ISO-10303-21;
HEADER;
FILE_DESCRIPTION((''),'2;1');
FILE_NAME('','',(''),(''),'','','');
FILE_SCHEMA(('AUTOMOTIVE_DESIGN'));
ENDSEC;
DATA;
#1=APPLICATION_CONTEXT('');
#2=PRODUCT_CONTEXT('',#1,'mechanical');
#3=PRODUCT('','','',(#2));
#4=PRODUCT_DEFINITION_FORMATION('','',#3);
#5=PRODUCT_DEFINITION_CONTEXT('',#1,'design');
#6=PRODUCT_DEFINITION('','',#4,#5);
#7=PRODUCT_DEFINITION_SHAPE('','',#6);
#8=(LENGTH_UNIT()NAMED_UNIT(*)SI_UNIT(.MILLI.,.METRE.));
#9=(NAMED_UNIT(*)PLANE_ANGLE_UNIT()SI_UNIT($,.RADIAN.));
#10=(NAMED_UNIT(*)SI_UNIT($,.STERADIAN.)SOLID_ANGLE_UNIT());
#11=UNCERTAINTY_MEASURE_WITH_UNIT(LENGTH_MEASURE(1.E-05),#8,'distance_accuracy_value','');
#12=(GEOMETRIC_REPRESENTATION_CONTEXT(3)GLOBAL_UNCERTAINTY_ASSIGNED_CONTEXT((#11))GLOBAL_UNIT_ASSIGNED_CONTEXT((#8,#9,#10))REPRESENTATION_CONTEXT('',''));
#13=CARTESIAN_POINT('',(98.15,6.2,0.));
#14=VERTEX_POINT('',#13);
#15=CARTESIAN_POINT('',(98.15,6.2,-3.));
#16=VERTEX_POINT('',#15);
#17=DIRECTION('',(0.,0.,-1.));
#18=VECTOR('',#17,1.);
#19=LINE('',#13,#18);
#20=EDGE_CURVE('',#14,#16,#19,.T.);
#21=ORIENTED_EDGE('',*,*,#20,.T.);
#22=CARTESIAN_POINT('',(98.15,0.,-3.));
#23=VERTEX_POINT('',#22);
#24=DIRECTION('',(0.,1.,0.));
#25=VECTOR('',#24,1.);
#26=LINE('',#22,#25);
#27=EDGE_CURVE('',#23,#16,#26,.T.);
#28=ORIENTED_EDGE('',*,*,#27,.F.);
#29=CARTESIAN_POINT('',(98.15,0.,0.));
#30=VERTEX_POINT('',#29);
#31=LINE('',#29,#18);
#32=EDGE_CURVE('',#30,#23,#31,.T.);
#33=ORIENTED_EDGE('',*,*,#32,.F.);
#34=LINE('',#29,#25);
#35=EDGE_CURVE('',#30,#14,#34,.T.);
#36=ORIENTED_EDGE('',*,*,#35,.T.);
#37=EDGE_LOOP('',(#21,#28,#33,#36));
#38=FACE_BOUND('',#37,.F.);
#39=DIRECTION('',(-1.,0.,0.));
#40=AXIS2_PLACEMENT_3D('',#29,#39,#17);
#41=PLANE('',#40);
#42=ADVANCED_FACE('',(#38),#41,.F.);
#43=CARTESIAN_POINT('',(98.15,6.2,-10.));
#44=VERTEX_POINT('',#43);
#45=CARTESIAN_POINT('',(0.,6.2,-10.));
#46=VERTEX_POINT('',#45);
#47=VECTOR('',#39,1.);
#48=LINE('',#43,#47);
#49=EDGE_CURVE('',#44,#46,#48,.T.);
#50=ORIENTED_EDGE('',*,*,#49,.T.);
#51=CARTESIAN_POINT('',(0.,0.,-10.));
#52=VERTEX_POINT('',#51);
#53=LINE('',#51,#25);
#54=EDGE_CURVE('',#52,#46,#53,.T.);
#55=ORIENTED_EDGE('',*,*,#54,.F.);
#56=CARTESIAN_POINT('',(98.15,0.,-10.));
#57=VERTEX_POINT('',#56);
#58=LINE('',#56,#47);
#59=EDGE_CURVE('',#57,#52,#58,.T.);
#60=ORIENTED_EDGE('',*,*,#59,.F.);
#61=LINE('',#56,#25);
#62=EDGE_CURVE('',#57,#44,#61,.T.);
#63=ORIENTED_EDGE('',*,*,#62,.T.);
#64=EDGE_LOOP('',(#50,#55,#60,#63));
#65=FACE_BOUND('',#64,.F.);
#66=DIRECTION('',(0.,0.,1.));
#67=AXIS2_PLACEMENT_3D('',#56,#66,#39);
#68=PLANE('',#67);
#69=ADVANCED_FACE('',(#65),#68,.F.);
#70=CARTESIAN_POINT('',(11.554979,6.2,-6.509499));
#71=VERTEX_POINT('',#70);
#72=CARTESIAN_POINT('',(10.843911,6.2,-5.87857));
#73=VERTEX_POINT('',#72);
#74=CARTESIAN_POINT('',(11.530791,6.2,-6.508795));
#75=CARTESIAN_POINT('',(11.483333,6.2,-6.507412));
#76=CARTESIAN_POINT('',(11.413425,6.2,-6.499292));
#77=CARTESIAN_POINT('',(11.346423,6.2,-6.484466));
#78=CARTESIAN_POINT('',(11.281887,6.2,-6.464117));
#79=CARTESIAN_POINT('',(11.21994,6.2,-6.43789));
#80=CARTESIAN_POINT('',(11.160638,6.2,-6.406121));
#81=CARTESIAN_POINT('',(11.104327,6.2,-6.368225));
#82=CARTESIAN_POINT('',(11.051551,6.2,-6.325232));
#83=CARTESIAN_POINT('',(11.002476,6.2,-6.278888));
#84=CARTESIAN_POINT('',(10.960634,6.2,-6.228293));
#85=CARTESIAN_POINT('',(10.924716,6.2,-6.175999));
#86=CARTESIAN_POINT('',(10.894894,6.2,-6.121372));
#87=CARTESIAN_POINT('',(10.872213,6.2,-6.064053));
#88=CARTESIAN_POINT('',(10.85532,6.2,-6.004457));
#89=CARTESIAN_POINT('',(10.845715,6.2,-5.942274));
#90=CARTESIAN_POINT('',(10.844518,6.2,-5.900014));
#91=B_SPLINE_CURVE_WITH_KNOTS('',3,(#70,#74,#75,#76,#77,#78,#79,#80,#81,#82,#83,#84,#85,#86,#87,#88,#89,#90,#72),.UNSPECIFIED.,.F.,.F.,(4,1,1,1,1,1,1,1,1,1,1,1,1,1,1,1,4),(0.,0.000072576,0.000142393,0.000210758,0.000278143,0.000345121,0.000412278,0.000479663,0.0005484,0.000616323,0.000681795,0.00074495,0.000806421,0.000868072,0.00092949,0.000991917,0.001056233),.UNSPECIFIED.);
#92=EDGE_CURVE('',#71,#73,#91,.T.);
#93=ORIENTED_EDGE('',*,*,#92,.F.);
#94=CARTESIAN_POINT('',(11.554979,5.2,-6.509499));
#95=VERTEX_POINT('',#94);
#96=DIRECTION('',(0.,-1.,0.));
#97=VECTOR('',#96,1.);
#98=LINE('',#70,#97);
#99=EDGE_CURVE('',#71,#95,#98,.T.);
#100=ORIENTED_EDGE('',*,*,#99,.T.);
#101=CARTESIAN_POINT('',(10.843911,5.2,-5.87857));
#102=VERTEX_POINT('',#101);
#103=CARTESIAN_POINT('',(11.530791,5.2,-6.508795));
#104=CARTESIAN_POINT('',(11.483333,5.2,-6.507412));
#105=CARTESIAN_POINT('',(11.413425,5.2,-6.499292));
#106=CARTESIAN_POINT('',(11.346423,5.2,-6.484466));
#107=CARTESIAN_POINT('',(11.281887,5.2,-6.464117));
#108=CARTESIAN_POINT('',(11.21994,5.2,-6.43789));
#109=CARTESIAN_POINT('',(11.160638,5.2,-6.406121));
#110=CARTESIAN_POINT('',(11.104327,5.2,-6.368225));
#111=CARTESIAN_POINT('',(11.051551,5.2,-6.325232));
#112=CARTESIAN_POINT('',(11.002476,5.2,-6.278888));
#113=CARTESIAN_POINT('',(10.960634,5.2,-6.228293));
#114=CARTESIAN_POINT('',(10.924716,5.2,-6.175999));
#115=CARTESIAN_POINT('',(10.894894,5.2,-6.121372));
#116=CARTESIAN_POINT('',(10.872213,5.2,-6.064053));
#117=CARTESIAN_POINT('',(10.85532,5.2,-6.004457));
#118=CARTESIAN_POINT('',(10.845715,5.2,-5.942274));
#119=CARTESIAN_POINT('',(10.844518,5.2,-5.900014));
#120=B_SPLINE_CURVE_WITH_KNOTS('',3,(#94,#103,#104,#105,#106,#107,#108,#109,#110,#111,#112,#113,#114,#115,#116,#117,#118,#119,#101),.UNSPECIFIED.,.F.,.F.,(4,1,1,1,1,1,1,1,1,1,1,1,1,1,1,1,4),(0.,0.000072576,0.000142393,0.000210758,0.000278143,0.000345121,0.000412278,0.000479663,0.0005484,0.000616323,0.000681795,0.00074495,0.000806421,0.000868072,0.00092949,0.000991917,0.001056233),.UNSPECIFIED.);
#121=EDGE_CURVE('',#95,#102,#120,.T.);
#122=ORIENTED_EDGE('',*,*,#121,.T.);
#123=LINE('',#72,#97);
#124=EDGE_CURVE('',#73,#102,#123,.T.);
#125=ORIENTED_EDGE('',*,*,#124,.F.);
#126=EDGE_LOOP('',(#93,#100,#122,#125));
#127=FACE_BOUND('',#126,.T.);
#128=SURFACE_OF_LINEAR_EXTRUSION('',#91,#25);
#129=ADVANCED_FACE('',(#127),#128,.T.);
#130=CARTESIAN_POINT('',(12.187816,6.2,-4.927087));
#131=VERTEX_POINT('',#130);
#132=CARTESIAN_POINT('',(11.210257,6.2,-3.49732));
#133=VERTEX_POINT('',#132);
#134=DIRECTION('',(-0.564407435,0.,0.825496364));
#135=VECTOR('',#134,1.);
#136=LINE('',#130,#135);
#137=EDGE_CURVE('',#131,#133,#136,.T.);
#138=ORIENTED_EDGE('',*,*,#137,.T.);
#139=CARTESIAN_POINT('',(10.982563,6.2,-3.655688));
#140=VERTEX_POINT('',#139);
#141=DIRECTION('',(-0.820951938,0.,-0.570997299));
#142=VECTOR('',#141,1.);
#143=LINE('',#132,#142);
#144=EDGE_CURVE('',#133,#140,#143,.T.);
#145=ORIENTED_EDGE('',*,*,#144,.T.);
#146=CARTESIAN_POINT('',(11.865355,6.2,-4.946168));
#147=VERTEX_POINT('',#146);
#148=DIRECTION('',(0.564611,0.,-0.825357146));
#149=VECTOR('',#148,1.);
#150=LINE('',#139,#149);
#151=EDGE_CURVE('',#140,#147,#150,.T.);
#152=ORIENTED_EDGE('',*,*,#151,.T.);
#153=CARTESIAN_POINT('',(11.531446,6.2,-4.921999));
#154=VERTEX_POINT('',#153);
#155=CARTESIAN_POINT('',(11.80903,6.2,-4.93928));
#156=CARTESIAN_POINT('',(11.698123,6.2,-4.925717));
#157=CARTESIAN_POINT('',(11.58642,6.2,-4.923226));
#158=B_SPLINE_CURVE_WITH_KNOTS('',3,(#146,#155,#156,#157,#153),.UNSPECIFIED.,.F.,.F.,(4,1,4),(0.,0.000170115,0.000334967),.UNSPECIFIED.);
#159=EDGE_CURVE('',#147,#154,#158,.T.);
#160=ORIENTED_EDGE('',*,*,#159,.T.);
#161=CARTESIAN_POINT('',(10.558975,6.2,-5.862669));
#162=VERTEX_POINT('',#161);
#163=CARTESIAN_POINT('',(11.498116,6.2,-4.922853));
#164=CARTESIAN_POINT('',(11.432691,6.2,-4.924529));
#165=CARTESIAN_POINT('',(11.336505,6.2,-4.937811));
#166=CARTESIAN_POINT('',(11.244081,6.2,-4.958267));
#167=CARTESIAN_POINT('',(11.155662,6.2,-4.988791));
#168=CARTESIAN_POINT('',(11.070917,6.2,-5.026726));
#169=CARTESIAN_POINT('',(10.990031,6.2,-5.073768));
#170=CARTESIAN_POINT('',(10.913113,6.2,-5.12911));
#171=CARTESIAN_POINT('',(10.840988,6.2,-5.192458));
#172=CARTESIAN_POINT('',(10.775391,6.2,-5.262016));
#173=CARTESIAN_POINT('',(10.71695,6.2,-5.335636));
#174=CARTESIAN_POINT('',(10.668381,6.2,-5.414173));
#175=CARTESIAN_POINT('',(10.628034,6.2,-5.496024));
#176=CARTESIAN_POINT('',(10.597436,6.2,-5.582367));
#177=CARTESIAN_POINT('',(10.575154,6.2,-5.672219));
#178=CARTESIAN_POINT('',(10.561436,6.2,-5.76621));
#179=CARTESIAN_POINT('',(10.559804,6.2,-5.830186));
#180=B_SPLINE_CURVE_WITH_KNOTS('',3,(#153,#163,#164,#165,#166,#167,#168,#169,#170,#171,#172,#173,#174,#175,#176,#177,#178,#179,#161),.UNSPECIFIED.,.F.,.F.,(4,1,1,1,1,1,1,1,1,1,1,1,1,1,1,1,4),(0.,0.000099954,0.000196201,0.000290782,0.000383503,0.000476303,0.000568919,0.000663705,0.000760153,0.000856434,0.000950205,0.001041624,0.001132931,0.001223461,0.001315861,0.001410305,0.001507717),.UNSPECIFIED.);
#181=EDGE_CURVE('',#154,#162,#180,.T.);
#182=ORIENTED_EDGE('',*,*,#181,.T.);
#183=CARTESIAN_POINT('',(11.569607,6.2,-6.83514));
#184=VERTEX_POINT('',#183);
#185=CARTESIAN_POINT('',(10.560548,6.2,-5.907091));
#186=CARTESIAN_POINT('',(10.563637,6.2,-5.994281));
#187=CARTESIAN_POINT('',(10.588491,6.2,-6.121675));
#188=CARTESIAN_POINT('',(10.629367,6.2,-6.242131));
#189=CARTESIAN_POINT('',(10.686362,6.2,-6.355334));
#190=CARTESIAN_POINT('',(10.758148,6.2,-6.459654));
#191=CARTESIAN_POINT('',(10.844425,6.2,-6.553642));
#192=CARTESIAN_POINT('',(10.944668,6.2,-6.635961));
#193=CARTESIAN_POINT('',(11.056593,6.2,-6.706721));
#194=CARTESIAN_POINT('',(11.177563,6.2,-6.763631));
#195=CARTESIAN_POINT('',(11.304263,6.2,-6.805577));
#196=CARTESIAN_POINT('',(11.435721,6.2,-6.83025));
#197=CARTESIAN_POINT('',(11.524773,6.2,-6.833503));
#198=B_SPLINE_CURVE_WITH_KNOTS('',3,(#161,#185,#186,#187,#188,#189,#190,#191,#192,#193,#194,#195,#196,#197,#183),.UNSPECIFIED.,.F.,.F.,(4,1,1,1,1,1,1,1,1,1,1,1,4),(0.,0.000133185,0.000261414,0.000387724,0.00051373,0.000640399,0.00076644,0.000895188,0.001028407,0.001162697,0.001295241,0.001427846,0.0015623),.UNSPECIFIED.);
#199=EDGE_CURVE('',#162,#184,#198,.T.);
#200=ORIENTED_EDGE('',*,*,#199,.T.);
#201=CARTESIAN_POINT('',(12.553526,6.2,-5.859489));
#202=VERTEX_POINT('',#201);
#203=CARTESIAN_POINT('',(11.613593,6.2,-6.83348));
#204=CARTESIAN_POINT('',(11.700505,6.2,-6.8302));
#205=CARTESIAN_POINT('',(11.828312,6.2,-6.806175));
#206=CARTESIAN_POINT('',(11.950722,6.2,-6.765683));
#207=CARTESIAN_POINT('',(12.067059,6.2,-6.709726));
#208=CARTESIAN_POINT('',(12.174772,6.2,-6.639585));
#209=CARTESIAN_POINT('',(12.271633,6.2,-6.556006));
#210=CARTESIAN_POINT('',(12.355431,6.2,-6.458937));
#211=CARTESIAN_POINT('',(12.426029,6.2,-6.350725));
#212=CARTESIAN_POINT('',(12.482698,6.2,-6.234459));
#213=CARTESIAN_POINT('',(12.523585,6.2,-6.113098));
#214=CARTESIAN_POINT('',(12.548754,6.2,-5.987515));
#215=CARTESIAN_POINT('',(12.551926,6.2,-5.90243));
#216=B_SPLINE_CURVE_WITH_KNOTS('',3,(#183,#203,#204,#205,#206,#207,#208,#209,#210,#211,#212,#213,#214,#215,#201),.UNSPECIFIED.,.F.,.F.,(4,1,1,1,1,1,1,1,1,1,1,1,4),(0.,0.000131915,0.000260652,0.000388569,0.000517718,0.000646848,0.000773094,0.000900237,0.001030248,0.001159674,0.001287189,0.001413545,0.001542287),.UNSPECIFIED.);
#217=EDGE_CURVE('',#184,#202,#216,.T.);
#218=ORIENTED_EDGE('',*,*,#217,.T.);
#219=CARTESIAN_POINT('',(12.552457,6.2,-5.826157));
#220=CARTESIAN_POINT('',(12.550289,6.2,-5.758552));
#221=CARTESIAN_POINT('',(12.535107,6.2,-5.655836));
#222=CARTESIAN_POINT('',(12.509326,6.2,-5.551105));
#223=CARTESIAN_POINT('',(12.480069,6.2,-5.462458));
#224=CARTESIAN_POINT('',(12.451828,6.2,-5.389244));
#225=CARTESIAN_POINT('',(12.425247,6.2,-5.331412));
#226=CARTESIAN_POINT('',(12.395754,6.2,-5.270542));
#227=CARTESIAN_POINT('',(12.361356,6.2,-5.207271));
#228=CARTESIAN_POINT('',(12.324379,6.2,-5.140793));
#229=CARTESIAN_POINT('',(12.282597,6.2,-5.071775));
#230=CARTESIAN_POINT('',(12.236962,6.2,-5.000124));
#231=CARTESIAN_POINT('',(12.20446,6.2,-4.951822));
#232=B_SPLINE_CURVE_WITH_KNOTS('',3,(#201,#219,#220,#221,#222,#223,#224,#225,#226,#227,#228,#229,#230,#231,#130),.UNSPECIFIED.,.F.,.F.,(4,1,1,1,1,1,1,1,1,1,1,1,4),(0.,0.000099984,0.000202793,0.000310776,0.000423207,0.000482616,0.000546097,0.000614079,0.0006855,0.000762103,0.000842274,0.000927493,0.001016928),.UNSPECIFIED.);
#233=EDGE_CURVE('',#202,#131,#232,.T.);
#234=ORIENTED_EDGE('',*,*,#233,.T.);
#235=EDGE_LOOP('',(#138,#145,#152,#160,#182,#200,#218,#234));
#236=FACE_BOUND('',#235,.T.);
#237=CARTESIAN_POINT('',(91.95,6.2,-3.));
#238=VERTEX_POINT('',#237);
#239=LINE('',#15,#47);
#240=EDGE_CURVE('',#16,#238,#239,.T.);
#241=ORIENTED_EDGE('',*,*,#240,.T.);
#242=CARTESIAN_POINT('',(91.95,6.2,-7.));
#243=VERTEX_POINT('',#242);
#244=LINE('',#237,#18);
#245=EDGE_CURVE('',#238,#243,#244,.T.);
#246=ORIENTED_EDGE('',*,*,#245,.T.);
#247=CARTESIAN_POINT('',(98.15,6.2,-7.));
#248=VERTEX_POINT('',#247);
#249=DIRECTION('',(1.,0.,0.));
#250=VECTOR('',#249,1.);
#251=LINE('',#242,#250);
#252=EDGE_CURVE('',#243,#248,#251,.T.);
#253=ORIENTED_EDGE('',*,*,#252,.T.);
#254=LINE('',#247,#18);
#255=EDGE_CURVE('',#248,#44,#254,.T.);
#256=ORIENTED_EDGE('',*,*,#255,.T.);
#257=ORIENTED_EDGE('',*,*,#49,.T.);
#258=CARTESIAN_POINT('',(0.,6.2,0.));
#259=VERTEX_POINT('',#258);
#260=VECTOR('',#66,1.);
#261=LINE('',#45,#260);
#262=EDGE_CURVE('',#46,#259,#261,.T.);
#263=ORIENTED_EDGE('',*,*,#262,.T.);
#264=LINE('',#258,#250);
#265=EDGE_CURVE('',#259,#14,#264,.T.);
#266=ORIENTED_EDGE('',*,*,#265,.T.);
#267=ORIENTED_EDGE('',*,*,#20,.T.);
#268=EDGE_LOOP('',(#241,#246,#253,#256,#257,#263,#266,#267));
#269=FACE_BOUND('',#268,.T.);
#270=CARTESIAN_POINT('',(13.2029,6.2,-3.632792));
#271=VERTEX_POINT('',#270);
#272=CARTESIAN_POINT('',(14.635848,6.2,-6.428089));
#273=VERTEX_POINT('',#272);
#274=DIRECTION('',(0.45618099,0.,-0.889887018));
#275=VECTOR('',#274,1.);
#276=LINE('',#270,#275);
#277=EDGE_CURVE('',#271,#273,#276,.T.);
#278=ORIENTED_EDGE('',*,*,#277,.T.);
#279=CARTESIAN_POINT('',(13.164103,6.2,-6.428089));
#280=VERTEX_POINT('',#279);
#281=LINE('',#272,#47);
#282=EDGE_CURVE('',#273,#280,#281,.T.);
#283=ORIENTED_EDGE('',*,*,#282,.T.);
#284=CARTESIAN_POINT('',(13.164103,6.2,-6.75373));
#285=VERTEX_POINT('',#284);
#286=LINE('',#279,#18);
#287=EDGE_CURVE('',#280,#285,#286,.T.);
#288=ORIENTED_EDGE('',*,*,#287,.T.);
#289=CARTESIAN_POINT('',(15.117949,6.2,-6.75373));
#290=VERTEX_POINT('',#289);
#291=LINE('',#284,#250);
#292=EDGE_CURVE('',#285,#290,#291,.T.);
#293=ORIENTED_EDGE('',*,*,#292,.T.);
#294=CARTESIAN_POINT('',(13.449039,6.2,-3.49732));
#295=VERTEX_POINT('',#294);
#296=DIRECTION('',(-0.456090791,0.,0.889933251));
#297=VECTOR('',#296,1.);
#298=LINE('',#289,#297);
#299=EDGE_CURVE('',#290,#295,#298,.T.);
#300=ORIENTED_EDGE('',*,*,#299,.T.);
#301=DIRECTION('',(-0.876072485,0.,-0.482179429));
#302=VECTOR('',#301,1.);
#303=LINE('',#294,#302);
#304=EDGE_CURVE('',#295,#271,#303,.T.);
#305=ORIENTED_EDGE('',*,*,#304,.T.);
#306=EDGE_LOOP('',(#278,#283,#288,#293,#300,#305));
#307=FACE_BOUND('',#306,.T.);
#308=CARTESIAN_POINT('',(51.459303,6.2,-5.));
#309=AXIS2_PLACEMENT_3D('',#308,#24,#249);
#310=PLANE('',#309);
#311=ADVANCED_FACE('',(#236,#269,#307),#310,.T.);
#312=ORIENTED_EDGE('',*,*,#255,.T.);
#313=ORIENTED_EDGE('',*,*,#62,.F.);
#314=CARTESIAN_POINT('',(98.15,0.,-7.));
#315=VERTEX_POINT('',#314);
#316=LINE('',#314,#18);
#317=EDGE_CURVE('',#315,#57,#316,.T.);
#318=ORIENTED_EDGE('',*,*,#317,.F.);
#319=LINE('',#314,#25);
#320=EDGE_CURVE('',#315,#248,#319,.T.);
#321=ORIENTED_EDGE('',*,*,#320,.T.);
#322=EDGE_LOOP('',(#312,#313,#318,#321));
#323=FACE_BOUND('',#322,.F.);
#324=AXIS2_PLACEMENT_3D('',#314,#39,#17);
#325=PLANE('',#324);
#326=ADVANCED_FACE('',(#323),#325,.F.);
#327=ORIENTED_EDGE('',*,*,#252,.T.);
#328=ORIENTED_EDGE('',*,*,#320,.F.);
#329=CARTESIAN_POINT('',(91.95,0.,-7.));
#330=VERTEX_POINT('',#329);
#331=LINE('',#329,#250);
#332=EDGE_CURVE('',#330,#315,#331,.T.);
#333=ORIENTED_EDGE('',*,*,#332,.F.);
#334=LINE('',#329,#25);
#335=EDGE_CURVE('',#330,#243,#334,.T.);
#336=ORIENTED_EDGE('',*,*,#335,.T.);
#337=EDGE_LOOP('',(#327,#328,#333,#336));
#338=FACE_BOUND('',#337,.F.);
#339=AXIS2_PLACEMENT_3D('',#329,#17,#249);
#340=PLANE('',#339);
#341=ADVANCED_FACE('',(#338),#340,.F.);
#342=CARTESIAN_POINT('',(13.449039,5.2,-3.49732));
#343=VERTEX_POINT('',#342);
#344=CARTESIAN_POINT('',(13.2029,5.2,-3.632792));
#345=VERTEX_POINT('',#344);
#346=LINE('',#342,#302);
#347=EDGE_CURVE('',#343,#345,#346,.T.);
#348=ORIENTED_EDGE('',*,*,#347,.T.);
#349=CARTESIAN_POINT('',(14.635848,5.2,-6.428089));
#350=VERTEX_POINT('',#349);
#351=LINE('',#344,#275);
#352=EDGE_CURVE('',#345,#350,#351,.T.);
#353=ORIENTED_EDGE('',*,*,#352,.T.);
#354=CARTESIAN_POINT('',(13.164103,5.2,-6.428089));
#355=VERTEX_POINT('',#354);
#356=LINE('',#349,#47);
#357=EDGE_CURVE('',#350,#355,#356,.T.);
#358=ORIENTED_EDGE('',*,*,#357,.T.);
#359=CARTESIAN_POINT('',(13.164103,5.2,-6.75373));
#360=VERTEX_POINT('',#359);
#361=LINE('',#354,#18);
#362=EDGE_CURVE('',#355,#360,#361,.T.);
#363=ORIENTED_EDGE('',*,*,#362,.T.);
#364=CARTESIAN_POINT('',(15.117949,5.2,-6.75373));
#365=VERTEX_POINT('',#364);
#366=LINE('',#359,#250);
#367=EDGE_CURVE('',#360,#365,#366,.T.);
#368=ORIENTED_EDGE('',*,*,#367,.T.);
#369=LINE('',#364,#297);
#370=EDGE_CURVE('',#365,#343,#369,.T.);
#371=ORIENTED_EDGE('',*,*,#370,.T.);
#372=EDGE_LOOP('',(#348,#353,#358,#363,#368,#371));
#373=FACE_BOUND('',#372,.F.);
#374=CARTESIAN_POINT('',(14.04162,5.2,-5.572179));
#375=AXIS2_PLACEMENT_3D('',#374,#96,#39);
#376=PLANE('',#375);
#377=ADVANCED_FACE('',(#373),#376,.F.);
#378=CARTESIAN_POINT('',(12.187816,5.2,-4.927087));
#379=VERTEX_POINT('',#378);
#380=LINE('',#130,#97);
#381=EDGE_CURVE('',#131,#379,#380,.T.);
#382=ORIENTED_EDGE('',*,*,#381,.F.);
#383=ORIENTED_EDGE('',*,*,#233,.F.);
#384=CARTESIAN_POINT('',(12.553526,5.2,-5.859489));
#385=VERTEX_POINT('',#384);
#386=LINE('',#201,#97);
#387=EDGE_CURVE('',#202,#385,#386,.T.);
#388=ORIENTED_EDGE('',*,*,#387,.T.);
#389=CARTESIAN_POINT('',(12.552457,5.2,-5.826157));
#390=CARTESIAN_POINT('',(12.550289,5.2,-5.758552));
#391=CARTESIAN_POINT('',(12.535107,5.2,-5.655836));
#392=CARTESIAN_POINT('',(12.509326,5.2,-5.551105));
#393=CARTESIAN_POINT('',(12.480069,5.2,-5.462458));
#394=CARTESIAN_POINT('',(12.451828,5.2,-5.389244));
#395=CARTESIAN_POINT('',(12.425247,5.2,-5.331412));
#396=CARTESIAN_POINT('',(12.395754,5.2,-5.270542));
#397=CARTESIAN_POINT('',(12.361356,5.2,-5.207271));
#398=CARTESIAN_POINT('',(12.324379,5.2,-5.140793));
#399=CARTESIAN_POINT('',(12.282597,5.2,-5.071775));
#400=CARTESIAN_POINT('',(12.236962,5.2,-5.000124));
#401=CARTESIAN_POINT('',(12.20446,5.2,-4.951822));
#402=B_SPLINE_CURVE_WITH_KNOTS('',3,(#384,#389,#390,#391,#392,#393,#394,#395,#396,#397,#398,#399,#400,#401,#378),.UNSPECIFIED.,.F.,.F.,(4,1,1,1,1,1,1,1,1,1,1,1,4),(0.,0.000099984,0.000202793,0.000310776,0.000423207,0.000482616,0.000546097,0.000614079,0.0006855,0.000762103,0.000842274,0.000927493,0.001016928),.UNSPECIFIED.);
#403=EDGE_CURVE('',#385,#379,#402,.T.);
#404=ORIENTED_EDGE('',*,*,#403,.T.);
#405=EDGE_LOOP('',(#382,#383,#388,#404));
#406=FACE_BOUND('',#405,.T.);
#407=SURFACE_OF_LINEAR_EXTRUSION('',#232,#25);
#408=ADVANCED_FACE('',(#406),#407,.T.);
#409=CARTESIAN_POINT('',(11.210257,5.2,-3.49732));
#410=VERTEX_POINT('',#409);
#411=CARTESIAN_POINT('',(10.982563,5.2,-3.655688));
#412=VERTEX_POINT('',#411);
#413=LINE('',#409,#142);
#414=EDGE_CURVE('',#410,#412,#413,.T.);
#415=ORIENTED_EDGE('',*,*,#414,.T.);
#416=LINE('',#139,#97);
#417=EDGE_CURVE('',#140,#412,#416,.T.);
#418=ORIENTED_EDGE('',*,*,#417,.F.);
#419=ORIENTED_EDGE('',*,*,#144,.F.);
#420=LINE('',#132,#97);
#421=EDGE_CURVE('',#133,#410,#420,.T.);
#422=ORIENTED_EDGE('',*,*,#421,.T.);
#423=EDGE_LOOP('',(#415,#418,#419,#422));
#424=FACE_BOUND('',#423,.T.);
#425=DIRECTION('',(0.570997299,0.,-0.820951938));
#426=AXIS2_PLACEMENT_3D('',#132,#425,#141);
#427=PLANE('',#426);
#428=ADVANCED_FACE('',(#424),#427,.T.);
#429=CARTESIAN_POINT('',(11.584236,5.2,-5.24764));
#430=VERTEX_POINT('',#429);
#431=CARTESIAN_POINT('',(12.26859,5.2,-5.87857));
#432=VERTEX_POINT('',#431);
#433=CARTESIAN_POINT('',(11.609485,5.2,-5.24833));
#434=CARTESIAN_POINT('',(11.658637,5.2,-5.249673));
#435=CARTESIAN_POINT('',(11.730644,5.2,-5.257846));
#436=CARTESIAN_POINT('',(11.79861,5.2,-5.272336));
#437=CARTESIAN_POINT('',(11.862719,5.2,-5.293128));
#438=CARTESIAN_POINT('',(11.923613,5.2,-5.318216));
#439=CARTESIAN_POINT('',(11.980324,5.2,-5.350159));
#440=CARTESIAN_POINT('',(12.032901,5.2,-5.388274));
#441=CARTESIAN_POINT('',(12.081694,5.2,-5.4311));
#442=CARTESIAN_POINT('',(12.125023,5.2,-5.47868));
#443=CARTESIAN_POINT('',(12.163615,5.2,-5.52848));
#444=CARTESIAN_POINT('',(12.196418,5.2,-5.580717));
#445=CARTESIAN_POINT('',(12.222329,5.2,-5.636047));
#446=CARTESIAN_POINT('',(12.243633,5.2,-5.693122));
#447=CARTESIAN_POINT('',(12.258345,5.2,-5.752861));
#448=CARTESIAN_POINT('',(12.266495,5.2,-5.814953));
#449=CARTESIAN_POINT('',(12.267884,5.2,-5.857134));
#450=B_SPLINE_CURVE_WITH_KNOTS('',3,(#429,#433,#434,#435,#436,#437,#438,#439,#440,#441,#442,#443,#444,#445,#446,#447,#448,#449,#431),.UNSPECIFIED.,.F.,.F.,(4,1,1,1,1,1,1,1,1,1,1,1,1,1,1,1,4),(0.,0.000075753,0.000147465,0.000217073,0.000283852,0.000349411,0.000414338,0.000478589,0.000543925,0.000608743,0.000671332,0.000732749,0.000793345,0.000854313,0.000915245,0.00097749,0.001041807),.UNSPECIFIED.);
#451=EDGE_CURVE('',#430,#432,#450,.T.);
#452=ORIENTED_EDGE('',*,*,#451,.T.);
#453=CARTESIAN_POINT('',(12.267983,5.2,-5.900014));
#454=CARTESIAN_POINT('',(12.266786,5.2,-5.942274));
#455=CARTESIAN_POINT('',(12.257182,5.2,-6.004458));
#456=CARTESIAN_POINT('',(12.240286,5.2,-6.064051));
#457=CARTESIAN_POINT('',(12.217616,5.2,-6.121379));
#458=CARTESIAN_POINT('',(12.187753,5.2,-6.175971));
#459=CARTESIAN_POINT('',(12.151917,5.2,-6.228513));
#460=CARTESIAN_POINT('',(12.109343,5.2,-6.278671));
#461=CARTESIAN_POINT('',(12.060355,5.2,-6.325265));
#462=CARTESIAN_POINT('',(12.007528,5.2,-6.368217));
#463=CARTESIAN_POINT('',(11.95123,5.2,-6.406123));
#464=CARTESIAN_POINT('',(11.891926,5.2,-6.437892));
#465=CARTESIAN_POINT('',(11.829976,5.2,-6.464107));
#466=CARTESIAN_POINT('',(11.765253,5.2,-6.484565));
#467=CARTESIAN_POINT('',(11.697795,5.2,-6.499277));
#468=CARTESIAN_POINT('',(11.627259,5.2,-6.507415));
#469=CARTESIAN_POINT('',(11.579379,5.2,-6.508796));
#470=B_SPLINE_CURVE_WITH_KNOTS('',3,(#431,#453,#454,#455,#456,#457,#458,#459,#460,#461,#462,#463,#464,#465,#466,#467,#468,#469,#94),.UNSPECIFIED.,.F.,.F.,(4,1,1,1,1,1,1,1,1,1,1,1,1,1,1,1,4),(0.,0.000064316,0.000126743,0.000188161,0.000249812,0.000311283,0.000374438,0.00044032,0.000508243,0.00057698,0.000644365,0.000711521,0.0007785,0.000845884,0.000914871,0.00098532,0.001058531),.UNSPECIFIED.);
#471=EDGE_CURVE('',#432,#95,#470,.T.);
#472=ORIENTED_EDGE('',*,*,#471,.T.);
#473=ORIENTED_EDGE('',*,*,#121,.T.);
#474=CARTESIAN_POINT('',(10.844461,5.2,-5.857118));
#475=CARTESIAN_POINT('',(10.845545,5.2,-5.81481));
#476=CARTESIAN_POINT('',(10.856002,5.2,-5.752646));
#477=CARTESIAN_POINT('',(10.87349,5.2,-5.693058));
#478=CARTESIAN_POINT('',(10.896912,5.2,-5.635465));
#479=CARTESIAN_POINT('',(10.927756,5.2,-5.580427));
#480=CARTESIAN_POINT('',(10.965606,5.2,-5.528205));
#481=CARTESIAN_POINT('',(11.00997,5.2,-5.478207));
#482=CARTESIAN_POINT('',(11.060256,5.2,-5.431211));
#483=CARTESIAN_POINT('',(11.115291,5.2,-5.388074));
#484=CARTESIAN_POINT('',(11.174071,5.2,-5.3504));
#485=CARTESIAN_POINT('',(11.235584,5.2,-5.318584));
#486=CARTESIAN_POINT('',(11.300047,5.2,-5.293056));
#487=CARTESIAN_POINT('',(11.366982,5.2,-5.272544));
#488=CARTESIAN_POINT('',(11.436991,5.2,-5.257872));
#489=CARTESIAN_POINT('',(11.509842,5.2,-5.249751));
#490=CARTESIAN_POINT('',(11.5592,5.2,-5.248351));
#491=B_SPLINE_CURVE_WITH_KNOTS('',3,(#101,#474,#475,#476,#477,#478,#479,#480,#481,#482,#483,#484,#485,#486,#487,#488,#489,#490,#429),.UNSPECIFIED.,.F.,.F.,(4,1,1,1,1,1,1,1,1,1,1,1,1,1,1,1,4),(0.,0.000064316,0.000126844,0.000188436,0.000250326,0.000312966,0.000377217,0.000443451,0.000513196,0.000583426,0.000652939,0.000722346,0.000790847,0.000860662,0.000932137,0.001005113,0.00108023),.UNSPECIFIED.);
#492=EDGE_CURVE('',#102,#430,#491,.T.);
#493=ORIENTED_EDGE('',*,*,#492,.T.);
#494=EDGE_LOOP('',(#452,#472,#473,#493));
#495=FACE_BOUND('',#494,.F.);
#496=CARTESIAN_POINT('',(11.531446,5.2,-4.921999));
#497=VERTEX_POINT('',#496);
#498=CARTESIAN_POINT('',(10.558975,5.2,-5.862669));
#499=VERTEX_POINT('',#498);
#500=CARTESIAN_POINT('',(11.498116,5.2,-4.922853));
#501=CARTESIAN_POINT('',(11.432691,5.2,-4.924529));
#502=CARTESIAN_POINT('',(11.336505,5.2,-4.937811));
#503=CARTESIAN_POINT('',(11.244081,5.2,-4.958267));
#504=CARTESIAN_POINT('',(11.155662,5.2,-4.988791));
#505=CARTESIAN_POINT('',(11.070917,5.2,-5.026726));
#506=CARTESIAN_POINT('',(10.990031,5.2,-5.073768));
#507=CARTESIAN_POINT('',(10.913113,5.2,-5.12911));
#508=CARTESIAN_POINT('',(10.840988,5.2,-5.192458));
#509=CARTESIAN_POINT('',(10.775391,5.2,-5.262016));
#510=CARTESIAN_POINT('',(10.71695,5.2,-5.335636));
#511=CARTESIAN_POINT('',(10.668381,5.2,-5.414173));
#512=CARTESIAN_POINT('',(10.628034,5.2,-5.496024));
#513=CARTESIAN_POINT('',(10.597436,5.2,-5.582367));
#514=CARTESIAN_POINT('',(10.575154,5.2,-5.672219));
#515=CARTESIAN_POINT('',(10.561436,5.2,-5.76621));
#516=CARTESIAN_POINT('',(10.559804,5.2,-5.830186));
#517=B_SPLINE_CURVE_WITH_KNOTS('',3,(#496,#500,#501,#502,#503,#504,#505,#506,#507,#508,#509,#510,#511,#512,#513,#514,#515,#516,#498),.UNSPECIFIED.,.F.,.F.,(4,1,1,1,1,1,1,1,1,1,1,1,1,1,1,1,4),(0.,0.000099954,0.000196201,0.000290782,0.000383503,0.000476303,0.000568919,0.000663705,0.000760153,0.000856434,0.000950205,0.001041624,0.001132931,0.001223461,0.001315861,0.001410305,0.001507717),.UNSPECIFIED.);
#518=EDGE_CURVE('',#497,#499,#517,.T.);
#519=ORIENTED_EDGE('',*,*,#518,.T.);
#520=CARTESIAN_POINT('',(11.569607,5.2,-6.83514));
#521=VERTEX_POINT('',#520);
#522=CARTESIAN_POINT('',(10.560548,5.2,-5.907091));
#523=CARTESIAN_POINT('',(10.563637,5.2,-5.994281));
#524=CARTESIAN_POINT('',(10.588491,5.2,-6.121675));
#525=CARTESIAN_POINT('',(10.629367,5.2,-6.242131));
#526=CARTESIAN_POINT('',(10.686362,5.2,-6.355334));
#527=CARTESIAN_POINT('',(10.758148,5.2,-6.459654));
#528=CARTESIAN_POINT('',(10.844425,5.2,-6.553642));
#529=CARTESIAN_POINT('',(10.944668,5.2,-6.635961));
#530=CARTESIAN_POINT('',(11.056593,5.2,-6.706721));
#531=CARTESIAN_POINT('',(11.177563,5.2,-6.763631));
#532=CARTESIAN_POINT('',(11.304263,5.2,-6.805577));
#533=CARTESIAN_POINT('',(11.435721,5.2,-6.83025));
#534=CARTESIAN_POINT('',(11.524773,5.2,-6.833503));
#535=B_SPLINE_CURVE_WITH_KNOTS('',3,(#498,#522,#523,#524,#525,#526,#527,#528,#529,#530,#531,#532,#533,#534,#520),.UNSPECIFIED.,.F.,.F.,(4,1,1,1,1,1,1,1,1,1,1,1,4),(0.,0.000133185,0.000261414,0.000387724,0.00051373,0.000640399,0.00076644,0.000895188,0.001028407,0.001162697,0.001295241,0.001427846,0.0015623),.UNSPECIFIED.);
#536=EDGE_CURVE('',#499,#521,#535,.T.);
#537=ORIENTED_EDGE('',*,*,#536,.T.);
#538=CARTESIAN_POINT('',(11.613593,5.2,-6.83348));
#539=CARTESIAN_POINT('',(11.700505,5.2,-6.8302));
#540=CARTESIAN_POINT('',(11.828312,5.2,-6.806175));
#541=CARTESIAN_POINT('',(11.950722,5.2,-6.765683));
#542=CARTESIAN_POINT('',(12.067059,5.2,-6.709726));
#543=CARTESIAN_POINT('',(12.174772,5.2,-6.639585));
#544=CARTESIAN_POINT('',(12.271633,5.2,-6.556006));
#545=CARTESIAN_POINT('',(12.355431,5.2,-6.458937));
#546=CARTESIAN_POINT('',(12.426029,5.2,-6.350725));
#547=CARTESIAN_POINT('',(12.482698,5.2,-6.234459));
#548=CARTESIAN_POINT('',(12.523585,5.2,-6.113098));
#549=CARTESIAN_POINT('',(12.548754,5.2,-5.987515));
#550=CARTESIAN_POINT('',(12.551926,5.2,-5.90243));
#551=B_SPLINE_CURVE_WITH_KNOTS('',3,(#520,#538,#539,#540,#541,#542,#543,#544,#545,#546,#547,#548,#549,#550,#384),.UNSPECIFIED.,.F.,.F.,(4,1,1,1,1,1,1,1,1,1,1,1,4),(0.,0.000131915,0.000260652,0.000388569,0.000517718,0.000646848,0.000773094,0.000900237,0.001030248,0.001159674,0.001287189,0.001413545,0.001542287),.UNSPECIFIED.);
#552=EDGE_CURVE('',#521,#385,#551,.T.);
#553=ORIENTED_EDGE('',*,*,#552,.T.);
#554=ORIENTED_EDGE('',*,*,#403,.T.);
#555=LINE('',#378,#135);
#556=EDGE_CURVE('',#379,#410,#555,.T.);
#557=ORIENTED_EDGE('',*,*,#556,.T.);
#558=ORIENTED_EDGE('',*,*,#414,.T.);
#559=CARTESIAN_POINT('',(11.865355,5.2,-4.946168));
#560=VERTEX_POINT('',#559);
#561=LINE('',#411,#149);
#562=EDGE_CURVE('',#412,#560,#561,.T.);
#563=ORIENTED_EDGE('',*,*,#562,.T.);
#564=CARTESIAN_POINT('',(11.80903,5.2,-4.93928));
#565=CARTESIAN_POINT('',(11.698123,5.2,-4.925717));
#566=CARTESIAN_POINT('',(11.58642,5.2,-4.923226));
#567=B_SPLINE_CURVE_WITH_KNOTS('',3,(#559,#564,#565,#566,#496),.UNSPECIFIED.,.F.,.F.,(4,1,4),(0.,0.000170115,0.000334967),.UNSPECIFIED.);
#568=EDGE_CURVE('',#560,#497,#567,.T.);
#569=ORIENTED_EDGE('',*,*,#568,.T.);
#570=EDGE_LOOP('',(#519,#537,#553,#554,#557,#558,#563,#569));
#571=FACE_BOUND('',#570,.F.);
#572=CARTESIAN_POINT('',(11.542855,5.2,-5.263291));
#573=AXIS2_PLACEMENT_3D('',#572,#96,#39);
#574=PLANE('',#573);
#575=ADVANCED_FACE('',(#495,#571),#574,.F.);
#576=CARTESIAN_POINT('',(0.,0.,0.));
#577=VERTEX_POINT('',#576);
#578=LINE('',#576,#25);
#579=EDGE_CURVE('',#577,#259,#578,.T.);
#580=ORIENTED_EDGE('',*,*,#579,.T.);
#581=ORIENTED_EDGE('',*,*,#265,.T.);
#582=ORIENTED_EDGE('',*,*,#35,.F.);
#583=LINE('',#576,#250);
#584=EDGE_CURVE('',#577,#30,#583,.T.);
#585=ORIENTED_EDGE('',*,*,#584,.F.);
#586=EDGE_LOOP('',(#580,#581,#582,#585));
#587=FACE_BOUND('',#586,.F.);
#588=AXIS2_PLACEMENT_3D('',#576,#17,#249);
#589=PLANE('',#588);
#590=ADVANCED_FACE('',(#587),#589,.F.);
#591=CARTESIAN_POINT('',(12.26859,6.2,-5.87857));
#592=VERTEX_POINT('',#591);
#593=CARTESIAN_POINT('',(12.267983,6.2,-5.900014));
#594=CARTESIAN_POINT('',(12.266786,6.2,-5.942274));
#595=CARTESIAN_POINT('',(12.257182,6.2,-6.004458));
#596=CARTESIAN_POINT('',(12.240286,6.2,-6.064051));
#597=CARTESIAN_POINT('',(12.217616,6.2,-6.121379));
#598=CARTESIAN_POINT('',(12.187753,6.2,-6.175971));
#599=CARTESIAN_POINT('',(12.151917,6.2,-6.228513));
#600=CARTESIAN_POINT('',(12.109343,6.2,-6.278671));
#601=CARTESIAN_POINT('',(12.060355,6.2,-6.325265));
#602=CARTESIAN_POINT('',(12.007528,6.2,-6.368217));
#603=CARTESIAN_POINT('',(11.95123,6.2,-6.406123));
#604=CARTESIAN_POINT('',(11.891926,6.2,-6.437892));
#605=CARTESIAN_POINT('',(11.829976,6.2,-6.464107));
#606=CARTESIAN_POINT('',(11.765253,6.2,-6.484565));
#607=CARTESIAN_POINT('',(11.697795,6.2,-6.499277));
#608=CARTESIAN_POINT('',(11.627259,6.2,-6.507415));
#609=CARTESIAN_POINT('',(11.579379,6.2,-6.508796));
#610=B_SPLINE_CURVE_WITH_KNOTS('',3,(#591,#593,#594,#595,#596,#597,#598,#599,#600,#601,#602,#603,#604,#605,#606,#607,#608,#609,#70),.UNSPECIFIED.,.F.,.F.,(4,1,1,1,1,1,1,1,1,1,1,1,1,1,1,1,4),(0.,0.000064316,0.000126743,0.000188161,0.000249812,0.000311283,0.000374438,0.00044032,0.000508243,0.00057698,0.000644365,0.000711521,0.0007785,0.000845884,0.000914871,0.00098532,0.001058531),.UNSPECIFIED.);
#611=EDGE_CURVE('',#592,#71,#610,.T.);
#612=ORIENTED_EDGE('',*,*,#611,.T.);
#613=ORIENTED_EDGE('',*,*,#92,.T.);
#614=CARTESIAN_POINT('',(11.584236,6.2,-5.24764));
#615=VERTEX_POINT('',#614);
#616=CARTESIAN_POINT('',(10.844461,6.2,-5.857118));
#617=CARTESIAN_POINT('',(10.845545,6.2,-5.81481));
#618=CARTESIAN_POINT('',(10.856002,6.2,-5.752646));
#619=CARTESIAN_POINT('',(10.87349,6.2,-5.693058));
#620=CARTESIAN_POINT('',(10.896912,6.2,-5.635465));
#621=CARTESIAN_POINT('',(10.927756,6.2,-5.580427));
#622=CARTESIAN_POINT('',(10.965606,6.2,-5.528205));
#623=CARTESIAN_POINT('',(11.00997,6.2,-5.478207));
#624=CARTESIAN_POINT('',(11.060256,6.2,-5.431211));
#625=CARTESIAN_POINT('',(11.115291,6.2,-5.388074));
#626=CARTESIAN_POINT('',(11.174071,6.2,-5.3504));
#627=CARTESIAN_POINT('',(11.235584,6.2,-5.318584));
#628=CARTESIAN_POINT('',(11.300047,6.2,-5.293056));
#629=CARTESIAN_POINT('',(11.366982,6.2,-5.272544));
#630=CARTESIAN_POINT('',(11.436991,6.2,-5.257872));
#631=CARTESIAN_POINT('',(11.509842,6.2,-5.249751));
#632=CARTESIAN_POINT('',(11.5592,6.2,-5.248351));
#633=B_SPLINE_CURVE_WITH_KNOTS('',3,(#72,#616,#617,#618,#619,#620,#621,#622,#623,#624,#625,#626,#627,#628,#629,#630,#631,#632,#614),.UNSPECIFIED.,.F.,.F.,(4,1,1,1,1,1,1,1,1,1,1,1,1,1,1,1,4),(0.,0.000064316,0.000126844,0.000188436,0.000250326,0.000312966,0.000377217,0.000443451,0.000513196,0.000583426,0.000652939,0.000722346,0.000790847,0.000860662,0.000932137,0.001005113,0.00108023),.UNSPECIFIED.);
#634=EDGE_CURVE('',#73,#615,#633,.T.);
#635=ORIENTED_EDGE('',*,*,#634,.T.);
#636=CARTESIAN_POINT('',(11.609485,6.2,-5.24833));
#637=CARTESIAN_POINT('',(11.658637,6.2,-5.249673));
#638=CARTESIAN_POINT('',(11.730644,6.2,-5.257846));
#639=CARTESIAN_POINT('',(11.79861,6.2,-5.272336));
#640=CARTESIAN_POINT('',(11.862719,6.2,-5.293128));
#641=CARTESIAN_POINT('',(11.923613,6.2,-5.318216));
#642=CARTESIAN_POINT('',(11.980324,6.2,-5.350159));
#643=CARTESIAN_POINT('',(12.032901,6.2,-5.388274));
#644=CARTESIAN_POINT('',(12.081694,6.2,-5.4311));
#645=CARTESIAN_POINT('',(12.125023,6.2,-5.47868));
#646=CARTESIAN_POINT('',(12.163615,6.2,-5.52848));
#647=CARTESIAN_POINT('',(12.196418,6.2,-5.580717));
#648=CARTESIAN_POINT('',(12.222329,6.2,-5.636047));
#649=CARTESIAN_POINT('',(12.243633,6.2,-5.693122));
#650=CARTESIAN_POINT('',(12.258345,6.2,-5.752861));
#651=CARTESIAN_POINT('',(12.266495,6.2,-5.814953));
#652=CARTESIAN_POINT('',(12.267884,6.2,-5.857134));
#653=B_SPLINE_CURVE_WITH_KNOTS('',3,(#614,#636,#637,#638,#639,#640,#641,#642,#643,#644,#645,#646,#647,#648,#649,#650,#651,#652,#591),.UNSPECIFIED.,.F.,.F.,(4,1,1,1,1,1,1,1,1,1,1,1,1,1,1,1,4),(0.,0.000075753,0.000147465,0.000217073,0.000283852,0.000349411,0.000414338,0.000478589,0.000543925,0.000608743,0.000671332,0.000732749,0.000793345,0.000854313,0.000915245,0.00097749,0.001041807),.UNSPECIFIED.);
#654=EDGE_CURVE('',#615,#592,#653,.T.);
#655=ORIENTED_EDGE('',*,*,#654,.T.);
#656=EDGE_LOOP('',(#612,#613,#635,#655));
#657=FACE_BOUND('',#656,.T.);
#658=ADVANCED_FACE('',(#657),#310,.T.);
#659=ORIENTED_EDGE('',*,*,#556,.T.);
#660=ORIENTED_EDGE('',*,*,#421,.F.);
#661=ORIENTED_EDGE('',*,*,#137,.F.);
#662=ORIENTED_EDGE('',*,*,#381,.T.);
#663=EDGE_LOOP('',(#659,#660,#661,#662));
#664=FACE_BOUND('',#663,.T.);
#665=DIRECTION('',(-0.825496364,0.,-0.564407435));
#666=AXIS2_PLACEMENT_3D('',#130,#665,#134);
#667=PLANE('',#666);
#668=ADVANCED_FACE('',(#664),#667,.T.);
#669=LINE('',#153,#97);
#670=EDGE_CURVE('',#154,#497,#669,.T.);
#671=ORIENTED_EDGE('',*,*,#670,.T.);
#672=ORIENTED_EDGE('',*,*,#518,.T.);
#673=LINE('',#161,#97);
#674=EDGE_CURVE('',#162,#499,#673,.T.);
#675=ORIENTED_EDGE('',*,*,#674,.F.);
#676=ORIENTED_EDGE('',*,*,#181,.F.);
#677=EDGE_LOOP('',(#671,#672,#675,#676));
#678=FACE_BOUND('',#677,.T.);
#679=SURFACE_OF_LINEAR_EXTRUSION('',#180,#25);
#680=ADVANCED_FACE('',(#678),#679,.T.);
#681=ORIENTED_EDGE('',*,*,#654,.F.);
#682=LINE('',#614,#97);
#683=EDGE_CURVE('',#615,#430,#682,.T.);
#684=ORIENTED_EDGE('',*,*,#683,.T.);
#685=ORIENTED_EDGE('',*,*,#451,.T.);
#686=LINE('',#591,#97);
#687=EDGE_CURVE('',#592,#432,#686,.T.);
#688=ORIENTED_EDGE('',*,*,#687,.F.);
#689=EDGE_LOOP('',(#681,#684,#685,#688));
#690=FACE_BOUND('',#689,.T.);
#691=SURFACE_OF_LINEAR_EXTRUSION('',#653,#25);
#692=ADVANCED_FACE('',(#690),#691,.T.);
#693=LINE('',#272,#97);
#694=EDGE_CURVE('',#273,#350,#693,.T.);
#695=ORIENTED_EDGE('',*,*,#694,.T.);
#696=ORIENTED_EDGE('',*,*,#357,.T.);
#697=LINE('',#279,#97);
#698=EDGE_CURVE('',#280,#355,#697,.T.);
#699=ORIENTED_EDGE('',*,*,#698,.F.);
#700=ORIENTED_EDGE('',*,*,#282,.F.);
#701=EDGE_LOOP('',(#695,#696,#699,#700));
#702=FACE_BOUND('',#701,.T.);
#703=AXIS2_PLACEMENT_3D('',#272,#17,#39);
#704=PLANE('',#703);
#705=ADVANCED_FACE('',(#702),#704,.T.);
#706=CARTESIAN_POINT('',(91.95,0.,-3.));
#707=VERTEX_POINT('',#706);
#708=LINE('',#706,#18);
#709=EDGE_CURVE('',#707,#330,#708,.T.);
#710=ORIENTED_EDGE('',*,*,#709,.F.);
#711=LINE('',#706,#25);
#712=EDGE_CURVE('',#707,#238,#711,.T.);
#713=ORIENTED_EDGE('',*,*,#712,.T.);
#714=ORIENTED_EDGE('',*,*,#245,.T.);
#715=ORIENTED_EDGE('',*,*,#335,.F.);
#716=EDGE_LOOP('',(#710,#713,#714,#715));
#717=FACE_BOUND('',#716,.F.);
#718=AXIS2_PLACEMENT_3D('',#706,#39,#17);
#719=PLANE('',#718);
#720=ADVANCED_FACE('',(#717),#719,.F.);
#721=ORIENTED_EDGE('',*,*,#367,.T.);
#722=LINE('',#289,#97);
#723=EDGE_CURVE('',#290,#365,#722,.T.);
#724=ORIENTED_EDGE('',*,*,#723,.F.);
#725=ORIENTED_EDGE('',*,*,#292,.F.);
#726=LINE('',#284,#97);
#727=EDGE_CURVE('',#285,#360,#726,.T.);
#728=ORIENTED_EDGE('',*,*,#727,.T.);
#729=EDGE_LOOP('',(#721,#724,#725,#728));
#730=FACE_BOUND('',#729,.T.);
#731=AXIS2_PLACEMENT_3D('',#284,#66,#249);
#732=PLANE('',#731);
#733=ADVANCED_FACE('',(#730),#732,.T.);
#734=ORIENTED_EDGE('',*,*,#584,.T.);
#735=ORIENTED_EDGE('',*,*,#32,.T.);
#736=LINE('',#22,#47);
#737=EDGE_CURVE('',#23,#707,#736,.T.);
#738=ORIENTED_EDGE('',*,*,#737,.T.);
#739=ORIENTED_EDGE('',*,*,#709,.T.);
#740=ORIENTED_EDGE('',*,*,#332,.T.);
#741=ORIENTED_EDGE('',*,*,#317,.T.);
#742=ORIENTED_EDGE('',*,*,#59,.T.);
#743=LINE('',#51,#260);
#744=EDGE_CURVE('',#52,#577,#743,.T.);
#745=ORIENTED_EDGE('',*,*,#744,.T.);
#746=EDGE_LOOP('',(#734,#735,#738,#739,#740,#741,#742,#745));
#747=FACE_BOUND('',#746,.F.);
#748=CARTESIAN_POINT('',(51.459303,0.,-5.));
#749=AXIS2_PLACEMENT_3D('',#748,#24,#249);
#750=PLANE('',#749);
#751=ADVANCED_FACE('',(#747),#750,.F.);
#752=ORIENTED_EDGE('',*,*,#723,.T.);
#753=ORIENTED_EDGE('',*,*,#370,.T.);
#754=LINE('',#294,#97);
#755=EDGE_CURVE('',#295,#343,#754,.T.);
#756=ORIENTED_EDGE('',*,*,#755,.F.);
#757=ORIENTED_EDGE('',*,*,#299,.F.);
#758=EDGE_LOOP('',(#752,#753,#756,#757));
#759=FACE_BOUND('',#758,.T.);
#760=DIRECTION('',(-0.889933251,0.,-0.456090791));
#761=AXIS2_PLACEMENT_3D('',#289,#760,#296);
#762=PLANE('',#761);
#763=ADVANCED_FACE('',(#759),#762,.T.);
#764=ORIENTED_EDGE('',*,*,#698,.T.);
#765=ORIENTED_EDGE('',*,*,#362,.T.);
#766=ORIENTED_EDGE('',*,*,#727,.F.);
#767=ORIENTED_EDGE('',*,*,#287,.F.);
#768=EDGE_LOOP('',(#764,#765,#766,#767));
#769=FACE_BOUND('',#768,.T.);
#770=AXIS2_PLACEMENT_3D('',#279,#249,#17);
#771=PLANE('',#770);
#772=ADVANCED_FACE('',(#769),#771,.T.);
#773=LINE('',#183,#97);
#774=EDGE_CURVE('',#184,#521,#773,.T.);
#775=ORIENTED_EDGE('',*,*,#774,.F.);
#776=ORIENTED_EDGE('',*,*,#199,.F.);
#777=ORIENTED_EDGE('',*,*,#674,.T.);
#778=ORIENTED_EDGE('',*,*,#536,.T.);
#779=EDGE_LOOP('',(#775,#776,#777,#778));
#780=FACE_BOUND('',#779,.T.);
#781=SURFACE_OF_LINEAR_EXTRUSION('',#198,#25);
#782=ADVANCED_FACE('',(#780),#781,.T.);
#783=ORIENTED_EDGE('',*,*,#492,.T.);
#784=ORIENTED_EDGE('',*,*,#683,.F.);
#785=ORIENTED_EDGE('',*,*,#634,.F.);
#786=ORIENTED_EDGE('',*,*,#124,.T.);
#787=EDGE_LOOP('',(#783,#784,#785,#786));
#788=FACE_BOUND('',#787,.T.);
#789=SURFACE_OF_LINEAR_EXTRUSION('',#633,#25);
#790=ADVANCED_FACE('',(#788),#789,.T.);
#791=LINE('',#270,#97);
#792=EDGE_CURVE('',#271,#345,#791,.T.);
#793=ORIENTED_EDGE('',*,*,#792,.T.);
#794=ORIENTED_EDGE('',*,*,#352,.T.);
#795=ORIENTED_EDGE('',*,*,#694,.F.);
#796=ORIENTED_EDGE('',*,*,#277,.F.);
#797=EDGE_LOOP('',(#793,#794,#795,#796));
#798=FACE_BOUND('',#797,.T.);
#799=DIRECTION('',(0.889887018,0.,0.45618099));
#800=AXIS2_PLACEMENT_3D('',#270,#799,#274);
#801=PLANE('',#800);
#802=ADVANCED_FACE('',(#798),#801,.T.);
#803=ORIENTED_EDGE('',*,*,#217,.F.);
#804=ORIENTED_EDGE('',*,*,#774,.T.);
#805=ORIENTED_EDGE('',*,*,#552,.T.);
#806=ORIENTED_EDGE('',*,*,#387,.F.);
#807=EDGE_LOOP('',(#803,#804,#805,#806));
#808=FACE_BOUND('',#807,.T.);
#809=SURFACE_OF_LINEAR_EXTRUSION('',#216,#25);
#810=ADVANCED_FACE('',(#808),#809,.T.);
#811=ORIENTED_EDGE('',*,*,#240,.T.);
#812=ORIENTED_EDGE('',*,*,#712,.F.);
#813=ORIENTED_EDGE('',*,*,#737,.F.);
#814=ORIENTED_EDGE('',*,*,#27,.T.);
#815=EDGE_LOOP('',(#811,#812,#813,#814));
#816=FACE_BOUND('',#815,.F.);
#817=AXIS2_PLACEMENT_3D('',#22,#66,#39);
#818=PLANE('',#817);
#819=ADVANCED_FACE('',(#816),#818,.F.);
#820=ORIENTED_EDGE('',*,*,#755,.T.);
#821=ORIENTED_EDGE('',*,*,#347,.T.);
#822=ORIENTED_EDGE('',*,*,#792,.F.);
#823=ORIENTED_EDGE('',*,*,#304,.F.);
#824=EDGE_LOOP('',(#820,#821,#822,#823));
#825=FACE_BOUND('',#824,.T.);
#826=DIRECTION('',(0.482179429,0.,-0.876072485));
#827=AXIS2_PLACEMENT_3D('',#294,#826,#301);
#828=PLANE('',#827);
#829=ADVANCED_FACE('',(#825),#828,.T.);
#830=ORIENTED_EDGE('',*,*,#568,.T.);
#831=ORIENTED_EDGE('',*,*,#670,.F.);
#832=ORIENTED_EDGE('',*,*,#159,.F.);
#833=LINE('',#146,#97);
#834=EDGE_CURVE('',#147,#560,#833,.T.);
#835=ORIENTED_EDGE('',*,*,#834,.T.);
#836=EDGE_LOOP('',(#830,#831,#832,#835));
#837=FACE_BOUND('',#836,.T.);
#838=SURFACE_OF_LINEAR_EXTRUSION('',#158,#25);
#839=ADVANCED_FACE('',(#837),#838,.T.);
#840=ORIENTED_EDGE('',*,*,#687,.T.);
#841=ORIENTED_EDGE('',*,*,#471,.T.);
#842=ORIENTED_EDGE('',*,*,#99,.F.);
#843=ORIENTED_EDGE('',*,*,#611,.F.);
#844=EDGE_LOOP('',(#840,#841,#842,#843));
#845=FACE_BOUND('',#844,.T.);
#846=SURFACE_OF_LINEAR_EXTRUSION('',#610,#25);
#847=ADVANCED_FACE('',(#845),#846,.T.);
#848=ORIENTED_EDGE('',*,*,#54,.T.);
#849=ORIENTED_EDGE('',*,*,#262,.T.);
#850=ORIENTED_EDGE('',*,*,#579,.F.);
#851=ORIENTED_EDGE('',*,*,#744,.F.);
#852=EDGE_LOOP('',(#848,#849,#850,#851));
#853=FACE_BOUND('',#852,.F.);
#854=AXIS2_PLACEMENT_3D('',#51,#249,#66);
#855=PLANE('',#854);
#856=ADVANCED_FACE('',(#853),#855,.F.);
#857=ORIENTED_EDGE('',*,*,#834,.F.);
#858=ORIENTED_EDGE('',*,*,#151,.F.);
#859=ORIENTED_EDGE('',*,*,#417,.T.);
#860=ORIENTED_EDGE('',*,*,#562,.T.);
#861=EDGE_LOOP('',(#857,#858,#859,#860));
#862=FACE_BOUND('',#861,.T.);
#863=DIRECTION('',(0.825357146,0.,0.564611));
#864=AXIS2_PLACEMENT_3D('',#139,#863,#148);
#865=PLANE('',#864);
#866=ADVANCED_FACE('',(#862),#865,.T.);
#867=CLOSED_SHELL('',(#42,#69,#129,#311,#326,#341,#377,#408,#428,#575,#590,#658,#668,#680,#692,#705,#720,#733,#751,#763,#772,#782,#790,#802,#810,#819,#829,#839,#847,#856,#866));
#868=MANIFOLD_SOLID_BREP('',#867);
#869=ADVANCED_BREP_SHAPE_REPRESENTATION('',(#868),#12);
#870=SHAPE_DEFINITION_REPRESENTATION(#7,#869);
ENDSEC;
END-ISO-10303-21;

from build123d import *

# Parameters (mm, degrees)
BOSS_EXTRUDE1_DEPTH = 6.2
CUT_EXTRUDE1_DEPTH  = 1


with BuildPart() as part:
    # Sketch1 → Boss-Extrude1 (new body)
    with BuildSketch(Plane(origin=(0, 0, 0), x_dir=(1, 0, 0), z_dir=(0, 1, 0))):
        Polygon((0, 0), (91.95, 0), (98.15, 0), (98.15, 3), (93.712314791, 3), (91.95, 3), (91.95, 7), (93.712314791, 7), (98.15, 7), (98.15, 10), (91.95, 10), (0, 10), align=None)
    extrude(amount=BOSS_EXTRUDE1_DEPTH)

    # Sketch2 → Cut-Extrude1 (cut)
    with BuildSketch(Plane(origin=(0, 6.2, 0), x_dir=(1, 0, 0), z_dir=(0, 1, 0))):
        with BuildLine():
            Line((11.210257143, 3.497319833), (10.982562832, 3.655688223))
            Line((10.982562832, 3.655688223), (11.8653553, 4.94616799))
            add(Edge.make_bspline(
                [(11.8653553, 4.94616799), (11.809030133, 4.939279997), (11.698122738, 4.925717154), (11.586419796, 4.923225546), (11.531446045, 4.92199932)],
                knots=[0, 0, 0, 0, 0.000170115, 0.000334967, 0.000334967, 0.000334967, 0.000334967], degree=3))
            add(Edge.make_bspline(
                [(11.531446045, 4.92199932), (11.498115759, 4.922853011), (11.432691322, 4.924528731), (11.336505466, 4.937810943), (11.244080707, 4.958267131), (11.155662077, 4.988791358), (11.070917241, 5.026726448), (10.990031201, 5.073768168), (10.913112843, 5.129109589), (10.840988264, 5.192458089), (10.775391186, 5.262016036), (10.716950052, 5.335635798), (10.668380597, 5.414172571), (10.62803398, 5.496024271), (10.59743564, 5.582367353), (10.575153909, 5.672219309), (10.561435774, 5.76620987), (10.559803737, 5.830186239), (10.558975092, 5.862669392)],
                knots=[0, 0, 0, 0, 9.9954e-05, 0.000196201, 0.000290782, 0.000383503, 0.000476303, 0.000568919, 0.000663705, 0.000760153, 0.000856434, 0.000950205, 0.001041624, 0.001132931, 0.001223461, 0.001315861, 0.001410305, 0.001507717, 0.001507717, 0.001507717, 0.001507717], degree=3))
            add(Edge.make_bspline(
                [(10.558975092, 5.862669392), (10.560548472, 5.907090956), (10.563636698, 5.994281474), (10.588491067, 6.121674964), (10.629367232, 6.242131329), (10.686361545, 6.355333862), (10.758148043, 6.459654147), (10.844425121, 6.553641957), (10.944668003, 6.635960503), (11.05659312, 6.706721344), (11.17756336, 6.763630949), (11.304262786, 6.8055766), (11.435720595, 6.83024975), (11.524772696, 6.833502638), (11.569607103, 6.835140346)],
                knots=[0, 0, 0, 0, 0.000133185, 0.000261414, 0.000387724, 0.00051373, 0.000640399, 0.00076644, 0.000895188, 0.001028407, 0.001162697, 0.001295241, 0.001427846, 0.0015623, 0.0015623, 0.0015623, 0.0015623], degree=3))
            add(Edge.make_bspline(
                [(11.569607103, 6.835140346), (11.613593027, 6.833480127), (11.700505066, 6.83019969), (11.828311522, 6.806174946), (11.950722301, 6.765683107), (12.067058825, 6.709726396), (12.174772434, 6.639585287), (12.271633349, 6.556006112), (12.355431159, 6.458936812), (12.426028537, 6.35072511), (12.482697788, 6.234459349), (12.523584787, 6.113098219), (12.548754046, 5.987514522), (12.551925714, 5.902429535), (12.553526374, 5.859489304)],
                knots=[0, 0, 0, 0, 0.000131915, 0.000260652, 0.000388569, 0.000517718, 0.000646848, 0.000773094, 0.000900237, 0.001030248, 0.001159674, 0.001287189, 0.001413545, 0.001542287, 0.001542287, 0.001542287, 0.001542287], degree=3))
            add(Edge.make_bspline(
                [(12.553526374, 5.859489304), (12.552457389, 5.826157458), (12.55028922, 5.758552146), (12.535106998, 5.65583605), (12.50932583, 5.551105292), (12.480068932, 5.462457844), (12.451827608, 5.38924375), (12.425247296, 5.33141196), (12.395754128, 5.270541528), (12.361356391, 5.207270729), (12.324379165, 5.140793001), (12.282596821, 5.071775108), (12.236962481, 5.000124436), (12.204459807, 4.95182172), (12.187816238, 4.927087461)],
                knots=[0, 0, 0, 0, 9.9984e-05, 0.000202793, 0.000310776, 0.000423207, 0.000482616, 0.000546097, 0.000614079, 0.0006855, 0.000762103, 0.000842274, 0.000927493, 0.001016928, 0.001016928, 0.001016928, 0.001016928], degree=3))
            Line((12.187816238, 4.927087461), (11.210257143, 3.497319833))
        make_face()
        with BuildLine():
            add(Edge.make_bspline(
                [(11.584235509, 5.247640346), (11.609484936, 5.248330123), (11.658636986, 5.249672883), (11.730643536, 5.257845553), (11.798610492, 5.27233624), (11.862719411, 5.293127693), (11.923613101, 5.318216243), (11.980324341, 5.350158545), (12.032900595, 5.388273635), (12.081693929, 5.431099863), (12.1250227, 5.478680036), (12.163615307, 5.528479554), (12.196418107, 5.580717021), (12.22232908, 5.636046624), (12.243632945, 5.69312152), (12.258344999, 5.752860828), (12.266495072, 5.814953306), (12.26788443, 5.857134231), (12.268590477, 5.878569833)],
                knots=[0, 0, 0, 0, 7.5753e-05, 0.000147465, 0.000217073, 0.000283852, 0.000349411, 0.000414338, 0.000478589, 0.000543925, 0.000608743, 0.000671332, 0.000732749, 0.000793345, 0.000854313, 0.000915245, 0.00097749, 0.001041807, 0.001041807, 0.001041807, 0.001041807], degree=3))
            add(Edge.make_bspline(
                [(12.268590477, 5.878569833), (12.267982991, 5.900014387), (12.266785866, 5.94227351), (12.257181673, 6.004457916), (12.240285935, 6.064051089), (12.217615995, 6.121379279), (12.187752636, 6.175971473), (12.151917331, 6.228513071), (12.109342895, 6.27867093), (12.060354853, 6.325265401), (12.007527794, 6.368216709), (11.951230054, 6.40612265), (11.891925666, 6.437891878), (11.829976436, 6.464107372), (11.765253291, 6.484565054), (11.69779453, 6.499276521), (11.62725927, 6.507415184), (11.579379103, 6.50879576), (11.554978698, 6.50949932)],
                knots=[0, 0, 0, 0, 6.4316e-05, 0.000126743, 0.000188161, 0.000249812, 0.000311283, 0.000374438, 0.00044032, 0.000508243, 0.00057698, 0.000644365, 0.000711521, 0.0007785, 0.000845884, 0.000914871, 0.00098532, 0.001058531, 0.001058531, 0.001058531, 0.001058531], degree=3))
            add(Edge.make_bspline(
                [(11.554978698, 6.50949932), (11.530790501, 6.508794623), (11.48333346, 6.507412013), (11.413425258, 6.499291991), (11.346422627, 6.484466116), (11.281887014, 6.464116848), (11.219939625, 6.437889922), (11.160638034, 6.406120985), (11.104327126, 6.368225435), (11.051550715, 6.325231606), (11.002476171, 6.278887812), (10.960633727, 6.228293345), (10.924716411, 6.175998805), (10.894894087, 6.121372015), (10.872213232, 6.064053027), (10.855320416, 6.004457391), (10.845715438, 5.942273646), (10.84451842, 5.900014433), (10.843910989, 5.878569833)],
                knots=[0, 0, 0, 0, 7.2576e-05, 0.000142393, 0.000210758, 0.000278143, 0.000345121, 0.000412278, 0.000479663, 0.0005484, 0.000616323, 0.000681795, 0.00074495, 0.000806421, 0.000868072, 0.00092949, 0.000991917, 0.001056233, 0.001056233, 0.001056233, 0.001056233], degree=3))
            add(Edge.make_bspline(
                [(10.843910989, 5.878569833), (10.844460651, 5.857117539), (10.845544684, 5.814809687), (10.856002036, 5.752646459), (10.87349019, 5.693057883), (10.896912066, 5.635464556), (10.927756365, 5.580426514), (10.965605856, 5.528204693), (11.009970173, 5.478207106), (11.060256265, 5.431210563), (11.115290954, 5.388073947), (11.174070859, 5.350399958), (11.235584069, 5.31858424), (11.300047119, 5.293055985), (11.366982288, 5.272543976), (11.436991157, 5.25787226), (11.509842201, 5.249751275), (11.559199827, 5.24835074), (11.584235509, 5.247640346)],
                knots=[0, 0, 0, 0, 6.4316e-05, 0.000126844, 0.000188436, 0.000250326, 0.000312966, 0.000377217, 0.000443451, 0.000513196, 0.000583426, 0.000652939, 0.000722346, 0.000790847, 0.000860662, 0.000932137, 0.001005113, 0.00108023, 0.00108023, 0.00108023, 0.00108023], degree=3))
        make_face(mode=Mode.SUBTRACT)
        Polygon((13.164103297, 6.75373009), (15.117949451, 6.75373009), (13.449039195, 3.497319833), (13.202900372, 3.632791588), (14.635848089, 6.428089064), (13.164103297, 6.428089064), align=None)
    extrude(amount=-CUT_EXTRUDE1_DEPTH, mode=Mode.SUBTRACT)


solid = part.part
